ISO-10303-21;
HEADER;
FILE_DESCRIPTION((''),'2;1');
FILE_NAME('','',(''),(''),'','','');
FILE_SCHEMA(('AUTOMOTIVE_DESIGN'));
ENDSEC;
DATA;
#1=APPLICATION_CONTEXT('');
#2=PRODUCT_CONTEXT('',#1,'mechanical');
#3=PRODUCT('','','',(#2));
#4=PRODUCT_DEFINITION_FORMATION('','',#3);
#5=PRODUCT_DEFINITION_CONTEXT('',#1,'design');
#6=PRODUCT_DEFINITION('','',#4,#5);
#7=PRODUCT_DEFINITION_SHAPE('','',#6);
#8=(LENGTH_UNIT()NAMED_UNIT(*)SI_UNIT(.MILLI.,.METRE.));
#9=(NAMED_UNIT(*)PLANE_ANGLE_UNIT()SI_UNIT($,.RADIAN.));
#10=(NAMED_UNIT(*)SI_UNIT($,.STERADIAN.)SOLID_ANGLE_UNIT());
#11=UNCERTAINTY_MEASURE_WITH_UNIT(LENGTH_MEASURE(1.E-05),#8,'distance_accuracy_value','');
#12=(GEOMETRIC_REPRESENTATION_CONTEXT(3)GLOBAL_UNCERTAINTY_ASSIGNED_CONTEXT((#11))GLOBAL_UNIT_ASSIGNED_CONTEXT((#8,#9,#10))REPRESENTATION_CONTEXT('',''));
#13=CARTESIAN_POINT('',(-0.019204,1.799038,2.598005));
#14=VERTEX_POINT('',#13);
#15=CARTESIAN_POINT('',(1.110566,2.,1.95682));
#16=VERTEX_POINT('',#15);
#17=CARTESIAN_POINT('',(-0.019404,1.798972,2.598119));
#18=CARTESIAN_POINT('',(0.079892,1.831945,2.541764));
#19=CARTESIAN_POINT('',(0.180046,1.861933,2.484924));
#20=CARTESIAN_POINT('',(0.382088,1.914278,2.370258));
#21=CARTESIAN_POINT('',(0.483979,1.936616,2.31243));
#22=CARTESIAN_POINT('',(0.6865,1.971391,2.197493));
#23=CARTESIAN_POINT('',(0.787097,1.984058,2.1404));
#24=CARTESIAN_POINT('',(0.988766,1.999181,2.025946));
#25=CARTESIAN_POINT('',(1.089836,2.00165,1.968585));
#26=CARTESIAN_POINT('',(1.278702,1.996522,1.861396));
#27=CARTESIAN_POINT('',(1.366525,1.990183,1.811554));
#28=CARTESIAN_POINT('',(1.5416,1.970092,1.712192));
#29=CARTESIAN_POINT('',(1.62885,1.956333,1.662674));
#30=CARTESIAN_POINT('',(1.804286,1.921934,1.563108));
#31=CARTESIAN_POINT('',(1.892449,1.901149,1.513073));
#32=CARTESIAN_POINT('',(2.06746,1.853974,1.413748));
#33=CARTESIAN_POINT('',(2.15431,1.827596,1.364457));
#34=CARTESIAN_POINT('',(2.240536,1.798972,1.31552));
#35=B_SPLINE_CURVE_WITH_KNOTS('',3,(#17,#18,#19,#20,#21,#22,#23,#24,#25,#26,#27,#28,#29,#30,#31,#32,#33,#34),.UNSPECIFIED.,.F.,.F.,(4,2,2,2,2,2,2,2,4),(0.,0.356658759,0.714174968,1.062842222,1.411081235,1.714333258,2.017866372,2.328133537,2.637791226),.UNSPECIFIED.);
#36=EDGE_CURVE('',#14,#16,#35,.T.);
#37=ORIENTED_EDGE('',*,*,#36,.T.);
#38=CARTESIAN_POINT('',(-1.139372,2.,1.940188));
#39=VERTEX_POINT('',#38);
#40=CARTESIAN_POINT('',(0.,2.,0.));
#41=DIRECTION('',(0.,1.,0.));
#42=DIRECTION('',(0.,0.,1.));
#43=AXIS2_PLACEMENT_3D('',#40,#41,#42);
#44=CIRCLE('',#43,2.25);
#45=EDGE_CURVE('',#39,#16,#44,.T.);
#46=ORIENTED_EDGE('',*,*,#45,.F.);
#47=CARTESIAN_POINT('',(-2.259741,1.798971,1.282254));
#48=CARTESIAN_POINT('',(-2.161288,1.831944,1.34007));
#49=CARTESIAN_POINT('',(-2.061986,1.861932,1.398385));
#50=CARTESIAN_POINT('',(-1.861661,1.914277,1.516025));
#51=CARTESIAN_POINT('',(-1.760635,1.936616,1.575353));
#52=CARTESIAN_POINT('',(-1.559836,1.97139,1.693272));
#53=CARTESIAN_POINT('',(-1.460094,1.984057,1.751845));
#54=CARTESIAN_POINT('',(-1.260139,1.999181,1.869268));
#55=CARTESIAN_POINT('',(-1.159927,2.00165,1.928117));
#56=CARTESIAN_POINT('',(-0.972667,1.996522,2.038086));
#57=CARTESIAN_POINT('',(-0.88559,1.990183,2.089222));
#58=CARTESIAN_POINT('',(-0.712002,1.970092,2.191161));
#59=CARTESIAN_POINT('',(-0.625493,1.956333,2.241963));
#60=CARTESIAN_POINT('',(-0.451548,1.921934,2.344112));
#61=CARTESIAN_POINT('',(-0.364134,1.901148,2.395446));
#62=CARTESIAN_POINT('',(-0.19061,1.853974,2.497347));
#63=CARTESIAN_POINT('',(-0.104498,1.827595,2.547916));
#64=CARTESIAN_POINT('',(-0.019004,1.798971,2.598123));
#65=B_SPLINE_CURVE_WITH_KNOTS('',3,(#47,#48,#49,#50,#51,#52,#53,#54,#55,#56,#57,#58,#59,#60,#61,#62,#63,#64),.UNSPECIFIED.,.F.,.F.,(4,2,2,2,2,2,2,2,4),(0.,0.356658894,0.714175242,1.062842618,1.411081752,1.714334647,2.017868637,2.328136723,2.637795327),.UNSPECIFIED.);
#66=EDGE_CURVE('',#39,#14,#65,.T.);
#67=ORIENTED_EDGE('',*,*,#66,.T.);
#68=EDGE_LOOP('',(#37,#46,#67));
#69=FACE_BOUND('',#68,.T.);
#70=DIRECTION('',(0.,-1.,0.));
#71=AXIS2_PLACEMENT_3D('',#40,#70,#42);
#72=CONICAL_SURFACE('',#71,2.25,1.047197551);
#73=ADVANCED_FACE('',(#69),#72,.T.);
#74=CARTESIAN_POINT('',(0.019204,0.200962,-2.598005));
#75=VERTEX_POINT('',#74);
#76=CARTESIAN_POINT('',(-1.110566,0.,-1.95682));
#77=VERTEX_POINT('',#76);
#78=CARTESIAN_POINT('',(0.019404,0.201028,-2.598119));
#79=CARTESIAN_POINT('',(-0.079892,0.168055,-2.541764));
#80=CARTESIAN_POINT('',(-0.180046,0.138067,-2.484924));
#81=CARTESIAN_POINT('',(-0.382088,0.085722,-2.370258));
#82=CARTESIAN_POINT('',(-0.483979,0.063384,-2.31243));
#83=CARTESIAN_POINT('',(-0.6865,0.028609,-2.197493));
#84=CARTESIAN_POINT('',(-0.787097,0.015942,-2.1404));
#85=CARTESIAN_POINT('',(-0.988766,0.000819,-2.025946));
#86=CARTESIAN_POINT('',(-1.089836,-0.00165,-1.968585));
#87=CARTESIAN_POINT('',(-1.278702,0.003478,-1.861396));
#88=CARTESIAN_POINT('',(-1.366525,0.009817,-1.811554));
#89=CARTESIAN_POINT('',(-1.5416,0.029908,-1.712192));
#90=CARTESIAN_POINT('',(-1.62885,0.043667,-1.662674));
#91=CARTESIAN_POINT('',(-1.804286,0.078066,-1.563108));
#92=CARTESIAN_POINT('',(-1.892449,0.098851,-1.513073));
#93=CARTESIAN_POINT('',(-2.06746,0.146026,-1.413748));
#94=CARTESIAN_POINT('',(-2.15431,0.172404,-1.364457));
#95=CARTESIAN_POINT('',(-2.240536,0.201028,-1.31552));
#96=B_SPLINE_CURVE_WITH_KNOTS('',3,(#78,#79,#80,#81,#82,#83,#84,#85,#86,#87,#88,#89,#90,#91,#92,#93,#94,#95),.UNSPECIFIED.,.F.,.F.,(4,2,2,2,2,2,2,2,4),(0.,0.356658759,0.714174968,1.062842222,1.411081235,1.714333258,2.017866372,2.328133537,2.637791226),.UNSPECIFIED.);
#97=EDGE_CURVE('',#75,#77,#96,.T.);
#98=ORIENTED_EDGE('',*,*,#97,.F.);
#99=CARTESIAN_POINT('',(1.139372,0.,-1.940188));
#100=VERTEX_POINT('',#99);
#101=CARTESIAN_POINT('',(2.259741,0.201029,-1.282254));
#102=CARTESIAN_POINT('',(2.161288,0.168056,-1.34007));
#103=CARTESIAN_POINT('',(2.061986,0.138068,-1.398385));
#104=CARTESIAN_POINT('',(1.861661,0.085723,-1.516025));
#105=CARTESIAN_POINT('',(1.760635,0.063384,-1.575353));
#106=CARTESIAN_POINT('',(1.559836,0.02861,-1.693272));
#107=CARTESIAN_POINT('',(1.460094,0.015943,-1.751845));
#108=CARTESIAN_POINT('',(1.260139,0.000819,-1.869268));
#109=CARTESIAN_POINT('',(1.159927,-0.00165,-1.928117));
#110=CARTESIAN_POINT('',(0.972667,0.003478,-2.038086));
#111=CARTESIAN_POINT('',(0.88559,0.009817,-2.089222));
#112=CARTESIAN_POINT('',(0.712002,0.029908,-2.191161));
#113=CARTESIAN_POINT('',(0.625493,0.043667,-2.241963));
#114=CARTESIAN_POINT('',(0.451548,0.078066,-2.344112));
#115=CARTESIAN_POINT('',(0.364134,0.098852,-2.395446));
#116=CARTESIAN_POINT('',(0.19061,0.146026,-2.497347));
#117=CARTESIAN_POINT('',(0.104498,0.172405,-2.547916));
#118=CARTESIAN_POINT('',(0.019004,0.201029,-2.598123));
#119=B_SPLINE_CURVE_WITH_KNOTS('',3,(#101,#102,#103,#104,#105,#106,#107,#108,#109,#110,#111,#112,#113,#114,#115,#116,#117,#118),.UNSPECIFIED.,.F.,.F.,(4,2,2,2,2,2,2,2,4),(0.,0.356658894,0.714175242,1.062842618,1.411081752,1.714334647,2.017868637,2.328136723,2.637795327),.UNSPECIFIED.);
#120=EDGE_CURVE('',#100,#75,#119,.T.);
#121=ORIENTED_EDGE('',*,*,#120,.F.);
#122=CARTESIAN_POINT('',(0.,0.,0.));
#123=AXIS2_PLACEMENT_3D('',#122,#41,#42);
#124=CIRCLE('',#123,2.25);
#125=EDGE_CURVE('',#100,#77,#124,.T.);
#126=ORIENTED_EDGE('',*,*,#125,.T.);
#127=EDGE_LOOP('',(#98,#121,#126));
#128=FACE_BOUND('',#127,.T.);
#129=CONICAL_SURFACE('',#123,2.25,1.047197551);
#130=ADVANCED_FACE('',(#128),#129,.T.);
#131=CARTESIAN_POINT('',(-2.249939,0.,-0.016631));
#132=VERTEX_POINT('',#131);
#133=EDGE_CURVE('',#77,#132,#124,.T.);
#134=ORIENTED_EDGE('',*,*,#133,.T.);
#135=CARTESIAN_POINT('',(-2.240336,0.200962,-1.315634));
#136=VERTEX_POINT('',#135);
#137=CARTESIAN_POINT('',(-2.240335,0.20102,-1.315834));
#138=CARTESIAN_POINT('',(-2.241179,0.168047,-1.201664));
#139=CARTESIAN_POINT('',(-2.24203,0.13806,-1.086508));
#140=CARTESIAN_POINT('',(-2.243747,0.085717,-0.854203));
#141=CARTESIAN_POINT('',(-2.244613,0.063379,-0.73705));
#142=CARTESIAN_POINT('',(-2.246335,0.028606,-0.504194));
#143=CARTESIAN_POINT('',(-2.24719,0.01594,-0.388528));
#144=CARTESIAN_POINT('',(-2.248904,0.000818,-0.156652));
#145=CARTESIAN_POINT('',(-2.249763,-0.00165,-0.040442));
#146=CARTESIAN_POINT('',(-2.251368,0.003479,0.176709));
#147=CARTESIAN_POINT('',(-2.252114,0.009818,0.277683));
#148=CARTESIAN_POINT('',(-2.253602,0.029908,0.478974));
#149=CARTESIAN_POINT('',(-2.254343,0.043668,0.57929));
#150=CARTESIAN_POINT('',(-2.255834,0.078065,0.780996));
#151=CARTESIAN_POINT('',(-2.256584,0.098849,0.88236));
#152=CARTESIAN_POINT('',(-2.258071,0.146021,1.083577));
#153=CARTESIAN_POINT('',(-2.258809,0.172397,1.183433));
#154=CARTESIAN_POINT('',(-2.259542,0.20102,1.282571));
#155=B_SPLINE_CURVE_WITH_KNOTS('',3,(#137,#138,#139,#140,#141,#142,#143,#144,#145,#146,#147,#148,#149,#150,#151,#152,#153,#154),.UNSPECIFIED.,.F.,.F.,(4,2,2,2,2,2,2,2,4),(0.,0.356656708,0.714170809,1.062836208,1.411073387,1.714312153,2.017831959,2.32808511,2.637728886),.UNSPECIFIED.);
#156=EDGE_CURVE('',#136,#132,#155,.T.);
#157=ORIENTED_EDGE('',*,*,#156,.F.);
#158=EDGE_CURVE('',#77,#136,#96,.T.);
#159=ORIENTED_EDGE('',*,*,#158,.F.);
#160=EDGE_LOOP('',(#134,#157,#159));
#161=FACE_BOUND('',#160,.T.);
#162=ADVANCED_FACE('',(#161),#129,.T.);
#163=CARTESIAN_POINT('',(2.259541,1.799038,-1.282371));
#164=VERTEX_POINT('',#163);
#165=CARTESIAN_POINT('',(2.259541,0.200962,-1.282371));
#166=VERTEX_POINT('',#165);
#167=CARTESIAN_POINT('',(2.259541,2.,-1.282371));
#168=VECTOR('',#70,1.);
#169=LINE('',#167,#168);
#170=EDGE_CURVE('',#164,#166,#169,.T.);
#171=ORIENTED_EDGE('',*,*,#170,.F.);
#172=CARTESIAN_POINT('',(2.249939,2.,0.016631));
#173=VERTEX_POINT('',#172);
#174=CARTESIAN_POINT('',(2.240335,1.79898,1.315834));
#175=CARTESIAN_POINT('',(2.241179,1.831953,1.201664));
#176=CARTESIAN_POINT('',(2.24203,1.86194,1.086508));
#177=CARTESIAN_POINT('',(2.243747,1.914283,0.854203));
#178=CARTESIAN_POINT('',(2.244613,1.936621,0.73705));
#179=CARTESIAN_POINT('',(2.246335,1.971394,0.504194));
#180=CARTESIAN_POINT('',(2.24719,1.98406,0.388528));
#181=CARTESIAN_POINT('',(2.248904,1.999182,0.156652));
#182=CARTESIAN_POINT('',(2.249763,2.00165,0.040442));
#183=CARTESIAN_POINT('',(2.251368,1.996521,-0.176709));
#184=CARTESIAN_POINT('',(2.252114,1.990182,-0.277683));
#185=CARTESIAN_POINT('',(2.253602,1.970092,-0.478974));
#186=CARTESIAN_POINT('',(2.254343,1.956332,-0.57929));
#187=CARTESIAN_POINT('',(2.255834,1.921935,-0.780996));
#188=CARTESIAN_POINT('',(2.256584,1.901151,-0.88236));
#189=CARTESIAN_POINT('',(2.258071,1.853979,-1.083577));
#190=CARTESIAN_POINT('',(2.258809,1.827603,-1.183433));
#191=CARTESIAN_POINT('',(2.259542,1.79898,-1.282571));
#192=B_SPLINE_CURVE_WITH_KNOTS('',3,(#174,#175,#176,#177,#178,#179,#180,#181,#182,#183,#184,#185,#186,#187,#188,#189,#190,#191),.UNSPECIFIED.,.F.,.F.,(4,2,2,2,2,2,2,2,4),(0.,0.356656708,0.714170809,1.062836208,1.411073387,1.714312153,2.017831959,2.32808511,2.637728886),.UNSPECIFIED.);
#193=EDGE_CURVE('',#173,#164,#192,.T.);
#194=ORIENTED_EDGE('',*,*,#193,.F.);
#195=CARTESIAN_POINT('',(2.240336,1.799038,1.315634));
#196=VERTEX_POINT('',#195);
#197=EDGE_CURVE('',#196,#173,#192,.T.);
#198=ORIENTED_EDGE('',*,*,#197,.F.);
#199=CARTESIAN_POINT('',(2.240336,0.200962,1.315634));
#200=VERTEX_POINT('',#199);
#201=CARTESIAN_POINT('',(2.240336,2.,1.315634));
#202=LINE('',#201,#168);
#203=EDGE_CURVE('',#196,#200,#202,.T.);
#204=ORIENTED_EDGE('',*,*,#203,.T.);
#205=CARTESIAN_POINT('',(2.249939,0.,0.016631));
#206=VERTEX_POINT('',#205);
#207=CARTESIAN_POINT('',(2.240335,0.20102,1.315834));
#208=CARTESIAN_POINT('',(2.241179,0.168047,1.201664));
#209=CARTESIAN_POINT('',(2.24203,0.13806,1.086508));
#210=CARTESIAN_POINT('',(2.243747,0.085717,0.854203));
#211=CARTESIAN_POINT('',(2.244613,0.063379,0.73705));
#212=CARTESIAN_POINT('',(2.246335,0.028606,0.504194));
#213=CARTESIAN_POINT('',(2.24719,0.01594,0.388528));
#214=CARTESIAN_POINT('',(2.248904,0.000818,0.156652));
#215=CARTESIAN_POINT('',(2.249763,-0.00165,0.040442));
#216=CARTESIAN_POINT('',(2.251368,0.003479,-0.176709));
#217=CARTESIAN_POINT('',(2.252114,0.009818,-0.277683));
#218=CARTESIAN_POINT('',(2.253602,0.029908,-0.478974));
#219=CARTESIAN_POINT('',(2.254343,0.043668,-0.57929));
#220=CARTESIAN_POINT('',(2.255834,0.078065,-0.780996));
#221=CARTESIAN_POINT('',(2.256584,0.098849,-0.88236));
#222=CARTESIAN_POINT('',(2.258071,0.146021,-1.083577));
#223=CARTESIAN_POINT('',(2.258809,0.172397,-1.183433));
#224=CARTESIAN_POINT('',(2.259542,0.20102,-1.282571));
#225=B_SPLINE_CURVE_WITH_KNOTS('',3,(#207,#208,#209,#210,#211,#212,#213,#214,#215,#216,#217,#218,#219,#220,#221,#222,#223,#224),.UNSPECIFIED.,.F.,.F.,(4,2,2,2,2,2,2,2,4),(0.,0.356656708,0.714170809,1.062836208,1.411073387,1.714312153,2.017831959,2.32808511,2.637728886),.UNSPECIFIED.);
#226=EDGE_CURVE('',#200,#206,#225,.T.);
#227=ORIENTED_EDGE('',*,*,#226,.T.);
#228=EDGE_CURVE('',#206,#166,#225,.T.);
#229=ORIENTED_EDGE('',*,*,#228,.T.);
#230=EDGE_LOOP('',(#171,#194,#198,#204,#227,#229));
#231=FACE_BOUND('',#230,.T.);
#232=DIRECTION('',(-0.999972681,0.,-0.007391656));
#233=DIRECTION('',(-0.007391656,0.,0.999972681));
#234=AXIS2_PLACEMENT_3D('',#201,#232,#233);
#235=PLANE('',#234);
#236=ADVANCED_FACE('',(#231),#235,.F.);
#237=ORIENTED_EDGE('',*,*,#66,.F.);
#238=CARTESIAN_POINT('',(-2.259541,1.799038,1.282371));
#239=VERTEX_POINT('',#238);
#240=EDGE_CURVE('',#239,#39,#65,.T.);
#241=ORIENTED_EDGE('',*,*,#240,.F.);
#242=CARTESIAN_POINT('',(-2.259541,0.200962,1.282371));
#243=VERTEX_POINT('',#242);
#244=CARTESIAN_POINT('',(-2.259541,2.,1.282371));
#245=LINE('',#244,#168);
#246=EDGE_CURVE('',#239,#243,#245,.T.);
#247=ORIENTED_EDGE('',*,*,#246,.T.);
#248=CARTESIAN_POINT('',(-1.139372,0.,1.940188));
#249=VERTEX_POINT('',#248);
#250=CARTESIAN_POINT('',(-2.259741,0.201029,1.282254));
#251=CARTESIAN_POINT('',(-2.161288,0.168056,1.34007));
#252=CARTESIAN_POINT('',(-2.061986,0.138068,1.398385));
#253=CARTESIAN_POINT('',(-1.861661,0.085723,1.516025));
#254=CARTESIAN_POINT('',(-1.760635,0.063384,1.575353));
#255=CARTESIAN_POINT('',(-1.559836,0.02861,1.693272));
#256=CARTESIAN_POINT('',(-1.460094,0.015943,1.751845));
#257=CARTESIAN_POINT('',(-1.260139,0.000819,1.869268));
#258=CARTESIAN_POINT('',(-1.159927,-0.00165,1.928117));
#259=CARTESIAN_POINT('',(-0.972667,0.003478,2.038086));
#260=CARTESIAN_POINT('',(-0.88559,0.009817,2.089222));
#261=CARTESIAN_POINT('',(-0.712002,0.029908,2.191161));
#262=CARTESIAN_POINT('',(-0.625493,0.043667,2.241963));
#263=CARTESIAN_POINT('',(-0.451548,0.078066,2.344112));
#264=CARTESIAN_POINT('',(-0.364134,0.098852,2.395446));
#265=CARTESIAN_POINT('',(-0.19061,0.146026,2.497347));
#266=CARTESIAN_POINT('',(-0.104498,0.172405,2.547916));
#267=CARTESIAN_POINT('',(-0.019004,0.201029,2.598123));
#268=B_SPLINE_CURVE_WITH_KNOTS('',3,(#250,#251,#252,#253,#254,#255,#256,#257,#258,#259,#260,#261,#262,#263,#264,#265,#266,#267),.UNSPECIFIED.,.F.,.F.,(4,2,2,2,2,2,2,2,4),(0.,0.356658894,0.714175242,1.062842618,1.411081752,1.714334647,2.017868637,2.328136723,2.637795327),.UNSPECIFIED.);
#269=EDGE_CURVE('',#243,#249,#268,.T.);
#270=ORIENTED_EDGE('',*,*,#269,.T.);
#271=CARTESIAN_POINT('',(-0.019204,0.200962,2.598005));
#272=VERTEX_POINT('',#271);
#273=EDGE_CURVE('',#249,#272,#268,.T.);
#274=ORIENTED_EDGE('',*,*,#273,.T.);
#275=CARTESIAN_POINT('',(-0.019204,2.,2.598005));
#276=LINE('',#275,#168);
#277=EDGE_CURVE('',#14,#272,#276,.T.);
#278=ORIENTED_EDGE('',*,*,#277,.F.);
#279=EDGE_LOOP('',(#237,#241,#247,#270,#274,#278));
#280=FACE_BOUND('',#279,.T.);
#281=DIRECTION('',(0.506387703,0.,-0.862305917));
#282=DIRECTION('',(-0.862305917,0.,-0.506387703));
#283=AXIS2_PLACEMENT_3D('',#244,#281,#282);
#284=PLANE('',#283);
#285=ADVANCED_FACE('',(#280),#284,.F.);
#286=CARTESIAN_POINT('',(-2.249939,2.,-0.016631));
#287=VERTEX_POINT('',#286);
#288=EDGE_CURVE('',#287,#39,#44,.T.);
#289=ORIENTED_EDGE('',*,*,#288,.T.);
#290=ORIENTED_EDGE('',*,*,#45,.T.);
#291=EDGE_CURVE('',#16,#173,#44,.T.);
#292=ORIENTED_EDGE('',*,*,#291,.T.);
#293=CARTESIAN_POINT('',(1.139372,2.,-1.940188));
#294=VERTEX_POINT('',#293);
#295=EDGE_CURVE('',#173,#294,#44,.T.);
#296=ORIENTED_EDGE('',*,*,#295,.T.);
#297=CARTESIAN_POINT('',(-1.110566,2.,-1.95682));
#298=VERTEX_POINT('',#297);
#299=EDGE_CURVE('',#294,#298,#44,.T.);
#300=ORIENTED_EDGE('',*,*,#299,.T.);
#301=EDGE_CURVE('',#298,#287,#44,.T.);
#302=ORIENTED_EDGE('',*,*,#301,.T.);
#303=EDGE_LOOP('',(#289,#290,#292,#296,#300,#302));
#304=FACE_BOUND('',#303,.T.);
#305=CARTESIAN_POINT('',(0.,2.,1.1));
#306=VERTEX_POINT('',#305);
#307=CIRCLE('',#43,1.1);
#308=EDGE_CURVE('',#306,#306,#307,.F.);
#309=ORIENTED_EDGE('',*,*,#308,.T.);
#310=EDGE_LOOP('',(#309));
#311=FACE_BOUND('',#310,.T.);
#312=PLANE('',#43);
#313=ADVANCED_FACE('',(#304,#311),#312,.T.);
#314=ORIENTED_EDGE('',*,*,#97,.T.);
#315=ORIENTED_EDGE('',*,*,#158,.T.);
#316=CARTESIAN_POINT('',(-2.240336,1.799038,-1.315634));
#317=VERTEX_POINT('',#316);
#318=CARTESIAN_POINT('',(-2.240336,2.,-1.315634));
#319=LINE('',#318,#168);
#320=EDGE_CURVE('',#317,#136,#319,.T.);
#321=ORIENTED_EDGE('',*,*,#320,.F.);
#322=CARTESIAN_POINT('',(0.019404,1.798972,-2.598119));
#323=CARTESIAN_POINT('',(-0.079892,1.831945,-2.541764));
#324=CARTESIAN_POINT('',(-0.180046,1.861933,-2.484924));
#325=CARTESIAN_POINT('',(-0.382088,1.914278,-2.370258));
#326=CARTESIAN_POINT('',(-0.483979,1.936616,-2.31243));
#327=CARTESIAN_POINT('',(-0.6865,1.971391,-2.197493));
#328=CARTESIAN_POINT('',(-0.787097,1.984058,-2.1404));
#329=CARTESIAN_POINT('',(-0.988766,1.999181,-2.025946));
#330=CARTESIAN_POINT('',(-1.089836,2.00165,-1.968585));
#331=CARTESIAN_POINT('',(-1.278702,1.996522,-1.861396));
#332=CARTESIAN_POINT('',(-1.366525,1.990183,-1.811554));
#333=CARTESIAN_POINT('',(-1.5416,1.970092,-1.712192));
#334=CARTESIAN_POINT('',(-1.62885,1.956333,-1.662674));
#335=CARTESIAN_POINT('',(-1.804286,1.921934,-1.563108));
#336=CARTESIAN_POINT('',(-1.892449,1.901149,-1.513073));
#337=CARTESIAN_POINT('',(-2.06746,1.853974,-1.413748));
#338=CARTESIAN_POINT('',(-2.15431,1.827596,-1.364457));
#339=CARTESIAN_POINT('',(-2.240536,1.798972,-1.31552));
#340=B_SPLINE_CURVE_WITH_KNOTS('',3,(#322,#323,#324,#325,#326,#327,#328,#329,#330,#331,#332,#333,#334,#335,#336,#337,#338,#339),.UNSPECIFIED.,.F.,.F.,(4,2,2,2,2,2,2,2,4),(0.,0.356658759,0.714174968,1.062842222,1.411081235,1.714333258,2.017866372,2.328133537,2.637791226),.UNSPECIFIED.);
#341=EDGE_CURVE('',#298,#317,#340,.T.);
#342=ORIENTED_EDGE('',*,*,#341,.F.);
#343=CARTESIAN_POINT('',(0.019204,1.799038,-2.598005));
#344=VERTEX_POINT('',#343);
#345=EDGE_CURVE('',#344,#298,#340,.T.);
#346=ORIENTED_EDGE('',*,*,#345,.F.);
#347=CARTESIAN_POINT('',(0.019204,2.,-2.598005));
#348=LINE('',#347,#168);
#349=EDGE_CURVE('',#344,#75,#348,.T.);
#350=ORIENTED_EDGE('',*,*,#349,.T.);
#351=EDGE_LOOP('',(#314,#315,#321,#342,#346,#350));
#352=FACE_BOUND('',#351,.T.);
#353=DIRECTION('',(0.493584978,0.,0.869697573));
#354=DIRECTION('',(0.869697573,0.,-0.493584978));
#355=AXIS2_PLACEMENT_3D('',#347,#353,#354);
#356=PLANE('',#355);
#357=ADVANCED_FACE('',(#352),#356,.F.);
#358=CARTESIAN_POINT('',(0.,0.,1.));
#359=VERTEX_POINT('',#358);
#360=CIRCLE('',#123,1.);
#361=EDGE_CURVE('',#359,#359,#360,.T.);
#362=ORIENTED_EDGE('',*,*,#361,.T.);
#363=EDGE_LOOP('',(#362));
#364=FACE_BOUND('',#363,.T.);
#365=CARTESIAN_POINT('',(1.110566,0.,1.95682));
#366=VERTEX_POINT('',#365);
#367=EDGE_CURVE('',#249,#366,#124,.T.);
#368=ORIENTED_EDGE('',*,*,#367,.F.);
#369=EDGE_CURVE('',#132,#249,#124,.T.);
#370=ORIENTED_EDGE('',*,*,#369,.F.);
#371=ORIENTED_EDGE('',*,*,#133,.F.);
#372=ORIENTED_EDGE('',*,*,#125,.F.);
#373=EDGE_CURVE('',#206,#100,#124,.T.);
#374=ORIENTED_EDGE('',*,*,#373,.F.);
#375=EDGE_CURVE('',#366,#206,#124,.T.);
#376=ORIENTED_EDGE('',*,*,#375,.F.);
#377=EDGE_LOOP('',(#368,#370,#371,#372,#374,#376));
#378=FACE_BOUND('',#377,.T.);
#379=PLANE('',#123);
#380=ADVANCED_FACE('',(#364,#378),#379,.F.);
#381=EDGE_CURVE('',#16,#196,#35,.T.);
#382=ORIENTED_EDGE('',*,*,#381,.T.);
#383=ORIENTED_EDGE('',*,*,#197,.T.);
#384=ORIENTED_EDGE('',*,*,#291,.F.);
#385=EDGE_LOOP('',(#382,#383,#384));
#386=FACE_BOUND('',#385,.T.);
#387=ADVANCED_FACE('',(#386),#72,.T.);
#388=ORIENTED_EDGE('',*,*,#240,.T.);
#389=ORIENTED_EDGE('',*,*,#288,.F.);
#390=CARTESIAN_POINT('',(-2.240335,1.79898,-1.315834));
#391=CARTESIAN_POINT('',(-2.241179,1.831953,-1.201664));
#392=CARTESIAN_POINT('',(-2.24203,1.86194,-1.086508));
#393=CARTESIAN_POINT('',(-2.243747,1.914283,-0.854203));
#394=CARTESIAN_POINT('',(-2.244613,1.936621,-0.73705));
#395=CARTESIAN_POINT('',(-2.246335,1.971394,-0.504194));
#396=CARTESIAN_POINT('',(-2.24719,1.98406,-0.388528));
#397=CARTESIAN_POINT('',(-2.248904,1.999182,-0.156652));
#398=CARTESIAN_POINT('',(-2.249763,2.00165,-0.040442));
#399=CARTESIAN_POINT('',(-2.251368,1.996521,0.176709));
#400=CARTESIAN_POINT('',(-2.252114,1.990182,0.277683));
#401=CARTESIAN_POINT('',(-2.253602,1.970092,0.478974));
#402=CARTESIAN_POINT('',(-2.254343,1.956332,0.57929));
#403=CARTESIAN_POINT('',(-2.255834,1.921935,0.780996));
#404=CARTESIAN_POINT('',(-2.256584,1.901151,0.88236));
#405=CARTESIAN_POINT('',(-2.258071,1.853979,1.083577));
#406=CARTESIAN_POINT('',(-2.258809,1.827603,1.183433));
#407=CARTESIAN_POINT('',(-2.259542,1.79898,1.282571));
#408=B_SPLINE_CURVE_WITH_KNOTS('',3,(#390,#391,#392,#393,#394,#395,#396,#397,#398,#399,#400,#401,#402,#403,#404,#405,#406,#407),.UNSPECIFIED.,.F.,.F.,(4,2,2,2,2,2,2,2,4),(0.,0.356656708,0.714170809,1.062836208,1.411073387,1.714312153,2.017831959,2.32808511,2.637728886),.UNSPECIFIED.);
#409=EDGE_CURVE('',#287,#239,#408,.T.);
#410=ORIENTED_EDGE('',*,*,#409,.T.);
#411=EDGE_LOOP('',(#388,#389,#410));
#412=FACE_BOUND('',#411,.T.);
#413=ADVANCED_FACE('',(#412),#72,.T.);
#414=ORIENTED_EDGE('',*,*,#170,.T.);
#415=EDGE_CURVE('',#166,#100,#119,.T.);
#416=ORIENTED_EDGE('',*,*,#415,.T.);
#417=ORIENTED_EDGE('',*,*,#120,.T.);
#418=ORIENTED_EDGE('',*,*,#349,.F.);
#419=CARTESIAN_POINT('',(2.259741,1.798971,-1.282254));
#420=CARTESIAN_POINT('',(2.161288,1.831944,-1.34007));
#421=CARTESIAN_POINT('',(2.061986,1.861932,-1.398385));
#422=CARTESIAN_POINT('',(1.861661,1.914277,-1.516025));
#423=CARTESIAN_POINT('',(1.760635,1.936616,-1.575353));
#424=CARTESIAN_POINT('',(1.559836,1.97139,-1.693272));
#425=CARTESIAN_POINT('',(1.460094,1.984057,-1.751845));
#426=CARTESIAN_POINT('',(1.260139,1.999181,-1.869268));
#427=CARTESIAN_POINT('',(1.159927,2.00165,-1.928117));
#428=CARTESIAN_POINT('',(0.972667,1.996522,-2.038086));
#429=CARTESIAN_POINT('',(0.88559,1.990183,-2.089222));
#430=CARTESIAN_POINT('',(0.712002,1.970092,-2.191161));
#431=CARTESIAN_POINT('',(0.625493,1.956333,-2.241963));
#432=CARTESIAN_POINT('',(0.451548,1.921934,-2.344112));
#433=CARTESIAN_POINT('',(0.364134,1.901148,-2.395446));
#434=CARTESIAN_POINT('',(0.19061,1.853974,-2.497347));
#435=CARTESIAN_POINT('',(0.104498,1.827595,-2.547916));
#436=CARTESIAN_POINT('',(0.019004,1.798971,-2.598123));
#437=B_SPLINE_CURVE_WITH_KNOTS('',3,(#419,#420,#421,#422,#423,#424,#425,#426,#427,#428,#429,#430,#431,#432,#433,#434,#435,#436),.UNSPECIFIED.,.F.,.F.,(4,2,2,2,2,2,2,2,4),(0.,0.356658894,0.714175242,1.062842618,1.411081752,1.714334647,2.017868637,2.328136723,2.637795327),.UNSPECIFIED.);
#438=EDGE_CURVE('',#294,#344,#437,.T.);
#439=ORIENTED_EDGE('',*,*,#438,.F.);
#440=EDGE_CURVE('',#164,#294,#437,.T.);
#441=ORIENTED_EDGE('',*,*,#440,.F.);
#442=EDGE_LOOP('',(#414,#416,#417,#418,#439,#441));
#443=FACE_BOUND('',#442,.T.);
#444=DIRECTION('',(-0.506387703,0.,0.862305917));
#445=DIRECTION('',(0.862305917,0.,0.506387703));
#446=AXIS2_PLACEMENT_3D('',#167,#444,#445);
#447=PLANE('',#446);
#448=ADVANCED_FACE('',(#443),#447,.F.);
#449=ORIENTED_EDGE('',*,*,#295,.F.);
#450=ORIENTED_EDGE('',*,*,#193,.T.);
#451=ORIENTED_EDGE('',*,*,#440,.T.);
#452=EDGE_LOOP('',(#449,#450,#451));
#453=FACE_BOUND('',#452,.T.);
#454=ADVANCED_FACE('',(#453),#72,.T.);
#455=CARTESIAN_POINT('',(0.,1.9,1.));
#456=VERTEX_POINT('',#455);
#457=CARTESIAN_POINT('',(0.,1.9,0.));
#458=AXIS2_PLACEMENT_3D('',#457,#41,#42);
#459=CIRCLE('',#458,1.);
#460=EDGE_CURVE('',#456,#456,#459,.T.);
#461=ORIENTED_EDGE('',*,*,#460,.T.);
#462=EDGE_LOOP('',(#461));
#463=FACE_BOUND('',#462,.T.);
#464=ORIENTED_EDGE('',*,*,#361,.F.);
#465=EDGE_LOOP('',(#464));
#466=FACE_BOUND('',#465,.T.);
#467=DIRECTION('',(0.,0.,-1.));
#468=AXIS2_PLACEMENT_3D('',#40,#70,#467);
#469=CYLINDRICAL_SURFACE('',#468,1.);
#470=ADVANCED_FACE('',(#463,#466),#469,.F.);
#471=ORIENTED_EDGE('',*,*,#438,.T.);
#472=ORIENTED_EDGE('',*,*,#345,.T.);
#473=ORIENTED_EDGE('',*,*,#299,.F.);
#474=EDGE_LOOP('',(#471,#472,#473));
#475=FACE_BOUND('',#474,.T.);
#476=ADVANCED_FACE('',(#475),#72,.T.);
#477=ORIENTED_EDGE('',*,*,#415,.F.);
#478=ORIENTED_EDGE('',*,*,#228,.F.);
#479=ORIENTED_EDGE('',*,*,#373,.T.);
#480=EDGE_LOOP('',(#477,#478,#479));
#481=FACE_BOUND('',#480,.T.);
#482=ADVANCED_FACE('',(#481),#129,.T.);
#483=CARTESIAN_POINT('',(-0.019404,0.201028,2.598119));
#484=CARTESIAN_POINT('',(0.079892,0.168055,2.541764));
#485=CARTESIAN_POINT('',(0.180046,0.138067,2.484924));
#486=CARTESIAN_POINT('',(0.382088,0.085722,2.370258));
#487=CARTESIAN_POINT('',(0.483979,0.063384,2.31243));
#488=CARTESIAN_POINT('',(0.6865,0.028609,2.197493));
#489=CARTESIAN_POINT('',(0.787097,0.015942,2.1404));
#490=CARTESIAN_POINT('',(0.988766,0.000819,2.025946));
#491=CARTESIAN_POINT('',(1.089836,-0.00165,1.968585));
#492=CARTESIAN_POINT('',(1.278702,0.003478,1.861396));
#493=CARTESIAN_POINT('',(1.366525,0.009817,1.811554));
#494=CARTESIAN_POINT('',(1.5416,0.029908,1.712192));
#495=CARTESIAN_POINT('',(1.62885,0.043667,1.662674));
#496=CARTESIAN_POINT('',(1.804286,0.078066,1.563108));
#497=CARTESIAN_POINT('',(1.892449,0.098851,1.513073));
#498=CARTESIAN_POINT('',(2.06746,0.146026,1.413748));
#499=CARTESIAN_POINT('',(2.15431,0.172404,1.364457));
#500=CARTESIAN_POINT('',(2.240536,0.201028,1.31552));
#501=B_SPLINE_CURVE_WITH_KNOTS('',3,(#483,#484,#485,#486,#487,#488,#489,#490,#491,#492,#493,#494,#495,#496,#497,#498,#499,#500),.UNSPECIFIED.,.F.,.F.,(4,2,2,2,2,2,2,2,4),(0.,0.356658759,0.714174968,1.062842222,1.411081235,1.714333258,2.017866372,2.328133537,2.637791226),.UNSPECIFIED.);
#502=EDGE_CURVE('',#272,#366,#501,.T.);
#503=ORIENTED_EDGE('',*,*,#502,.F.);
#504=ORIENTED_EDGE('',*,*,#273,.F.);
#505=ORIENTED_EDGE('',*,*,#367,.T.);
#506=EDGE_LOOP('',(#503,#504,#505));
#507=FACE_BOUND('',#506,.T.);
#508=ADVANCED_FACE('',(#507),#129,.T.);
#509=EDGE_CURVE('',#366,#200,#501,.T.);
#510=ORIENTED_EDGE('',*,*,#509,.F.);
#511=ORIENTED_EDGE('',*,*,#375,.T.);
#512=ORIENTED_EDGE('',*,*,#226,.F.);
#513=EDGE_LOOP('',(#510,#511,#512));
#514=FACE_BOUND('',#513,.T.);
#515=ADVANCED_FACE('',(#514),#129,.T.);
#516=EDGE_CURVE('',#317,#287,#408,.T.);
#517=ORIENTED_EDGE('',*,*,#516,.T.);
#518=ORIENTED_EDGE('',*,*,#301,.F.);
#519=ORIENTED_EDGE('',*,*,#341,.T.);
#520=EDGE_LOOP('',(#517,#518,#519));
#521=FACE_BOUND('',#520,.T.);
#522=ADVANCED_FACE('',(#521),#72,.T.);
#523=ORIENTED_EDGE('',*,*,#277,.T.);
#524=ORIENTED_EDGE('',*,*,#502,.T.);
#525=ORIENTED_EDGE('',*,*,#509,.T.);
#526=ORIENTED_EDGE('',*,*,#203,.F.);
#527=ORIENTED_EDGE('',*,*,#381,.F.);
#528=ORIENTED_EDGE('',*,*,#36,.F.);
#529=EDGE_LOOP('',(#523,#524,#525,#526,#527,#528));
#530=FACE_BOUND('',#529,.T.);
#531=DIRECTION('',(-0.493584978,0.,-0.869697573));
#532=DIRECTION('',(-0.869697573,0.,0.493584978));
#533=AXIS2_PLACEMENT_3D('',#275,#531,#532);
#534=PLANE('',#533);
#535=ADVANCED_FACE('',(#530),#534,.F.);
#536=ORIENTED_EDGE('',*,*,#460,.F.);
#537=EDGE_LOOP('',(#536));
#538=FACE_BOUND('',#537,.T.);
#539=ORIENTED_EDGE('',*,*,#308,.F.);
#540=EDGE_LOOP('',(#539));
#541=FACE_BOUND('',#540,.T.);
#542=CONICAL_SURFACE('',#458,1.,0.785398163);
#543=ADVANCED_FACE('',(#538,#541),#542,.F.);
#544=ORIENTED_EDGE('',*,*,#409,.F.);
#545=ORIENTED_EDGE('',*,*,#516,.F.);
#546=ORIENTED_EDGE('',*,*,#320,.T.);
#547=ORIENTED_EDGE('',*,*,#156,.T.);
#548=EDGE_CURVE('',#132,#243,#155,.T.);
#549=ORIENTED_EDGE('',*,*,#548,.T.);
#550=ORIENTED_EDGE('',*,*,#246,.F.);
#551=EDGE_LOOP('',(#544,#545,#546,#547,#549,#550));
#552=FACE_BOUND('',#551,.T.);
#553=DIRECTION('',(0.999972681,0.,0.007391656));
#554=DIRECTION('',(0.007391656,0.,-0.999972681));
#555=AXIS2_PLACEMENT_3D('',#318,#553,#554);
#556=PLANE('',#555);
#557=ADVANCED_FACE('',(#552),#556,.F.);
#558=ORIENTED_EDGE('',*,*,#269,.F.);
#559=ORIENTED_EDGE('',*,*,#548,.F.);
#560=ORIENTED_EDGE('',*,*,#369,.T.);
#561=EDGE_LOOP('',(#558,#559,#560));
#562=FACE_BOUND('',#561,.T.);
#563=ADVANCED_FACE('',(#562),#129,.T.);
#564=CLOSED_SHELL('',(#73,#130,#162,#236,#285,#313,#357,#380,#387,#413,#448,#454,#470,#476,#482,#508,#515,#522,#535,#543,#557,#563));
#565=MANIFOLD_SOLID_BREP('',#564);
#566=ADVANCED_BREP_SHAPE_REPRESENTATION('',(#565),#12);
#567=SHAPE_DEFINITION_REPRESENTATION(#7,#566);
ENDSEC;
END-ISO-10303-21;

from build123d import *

# Parameters (mm, degrees)
SKETCH1_R           = 1
BOSS_EXTRUDE1_DEPTH = 2
SKETCH2_OUTSIDE_W   = 14.882
SKETCH2_OUTSIDE_H   = 15.558
SKETCH2_OUTSIDE_R   = 2.25
CUT_EXTRUDE1_DEPTH  = 2
CUT_EXTRUDE1_DRAFT  = 60
SKETCH3_OUTSIDE_W   = 14.882
SKETCH3_OUTSIDE_H   = 15.558
SKETCH3_OUTSIDE_R   = 2.25
CUT_EXTRUDE3_DEPTH  = 2
CUT_EXTRUDE3_DRAFT  = -60
CHAMFER1_SIZE       = 0.1


with BuildPart() as part:
    # Sketch1 → Boss-Extrude1 (new body)
    with BuildSketch(Plane(origin=(0, 0, 0), x_dir=(1, 0, 0), z_dir=(0, 1, 0))):
        Polygon((2.24033649, -1.315633845), (2.259540576, 1.282371391), (0.019204087, 2.598005235), (-2.24033649, 1.315633845), (-2.259540576, -1.282371391), (-0.019204087, -2.598005235), align=None)
        with Locations(Location((0, 0, 0), (0, 0, 270))):
            Circle(SKETCH1_R, mode=Mode.SUBTRACT)
    extrude(amount=BOSS_EXTRUDE1_DEPTH)


with BuildPart() as cut_extrude1_tool:
    # Sketch2 outside → Cut-Extrude1 (with draft: the straight prism first)
    with BuildSketch(Plane(origin=(0, 0, 0), x_dir=(1, 0, 0), z_dir=(0, 1, 0))):
        Rectangle(SKETCH2_OUTSIDE_W, SKETCH2_OUTSIDE_H)
        Circle(SKETCH2_OUTSIDE_R, mode=Mode.SUBTRACT)
    extrude(amount=CUT_EXTRUDE1_DEPTH)
    # Cut-Extrude1: the draft: its side faces are tilted about the plane it starts from
    cut_extrude1_sides = [cut_extrude1_tool.faces().sort_by_distance(p)[0] for p in [
        (0, 1, 7.779),
        (7.441, 1, 0),
        (0, 1, -7.779),
        (-7.441, 1, 0),
        (-2.25, 1, 0),
    ]]
    draft(cut_extrude1_sides, Plane(origin=(0, 0, 0), x_dir=(1, 0, 0), z_dir=(0, 1, 0)), CUT_EXTRUDE1_DRAFT)


with BuildPart() as part_1:
    add(part.part)

    # Cut-Extrude1: cut by cut_extrude1_tool
    add(cut_extrude1_tool.part, mode=Mode.SUBTRACT)


with BuildPart() as cut_extrude3_tool:
    # Sketch3 outside → Cut-Extrude3 (with draft: the straight prism first)
    with BuildSketch(Plane(origin=(0, 2, 0), x_dir=(1, 0, 0), z_dir=(0, 1, 0))):
        Rectangle(SKETCH3_OUTSIDE_W, SKETCH3_OUTSIDE_H)
        Circle(SKETCH3_OUTSIDE_R, mode=Mode.SUBTRACT)
    extrude(amount=-CUT_EXTRUDE3_DEPTH)
    # Cut-Extrude3: the draft: its side faces are tilted about the plane it starts from
    cut_extrude3_sides = [cut_extrude3_tool.faces().sort_by_distance(p)[0] for p in [
        (0, 1, 7.779),
        (7.441, 1, 0),
        (0, 1, -7.779),
        (-7.441, 1, 0),
        (-2.25, 1, 0),
    ]]
    draft(cut_extrude3_sides, Plane(origin=(0, 2, 0), x_dir=(1, 0, 0), z_dir=(0, 1, 0)), CUT_EXTRUDE3_DRAFT)


with BuildPart() as part_2:
    add(part_1.part)

    # Cut-Extrude3: cut by cut_extrude3_tool
    add(cut_extrude3_tool.part, mode=Mode.SUBTRACT)

    # Chamfer1
    chamfer1_edges = [part_2.edges().sort_by_distance(p)[0] for p in [
        (0, 2, -1),
    ]]
    chamfer(chamfer1_edges, length=CHAMFER1_SIZE)


solid = part_2.part
